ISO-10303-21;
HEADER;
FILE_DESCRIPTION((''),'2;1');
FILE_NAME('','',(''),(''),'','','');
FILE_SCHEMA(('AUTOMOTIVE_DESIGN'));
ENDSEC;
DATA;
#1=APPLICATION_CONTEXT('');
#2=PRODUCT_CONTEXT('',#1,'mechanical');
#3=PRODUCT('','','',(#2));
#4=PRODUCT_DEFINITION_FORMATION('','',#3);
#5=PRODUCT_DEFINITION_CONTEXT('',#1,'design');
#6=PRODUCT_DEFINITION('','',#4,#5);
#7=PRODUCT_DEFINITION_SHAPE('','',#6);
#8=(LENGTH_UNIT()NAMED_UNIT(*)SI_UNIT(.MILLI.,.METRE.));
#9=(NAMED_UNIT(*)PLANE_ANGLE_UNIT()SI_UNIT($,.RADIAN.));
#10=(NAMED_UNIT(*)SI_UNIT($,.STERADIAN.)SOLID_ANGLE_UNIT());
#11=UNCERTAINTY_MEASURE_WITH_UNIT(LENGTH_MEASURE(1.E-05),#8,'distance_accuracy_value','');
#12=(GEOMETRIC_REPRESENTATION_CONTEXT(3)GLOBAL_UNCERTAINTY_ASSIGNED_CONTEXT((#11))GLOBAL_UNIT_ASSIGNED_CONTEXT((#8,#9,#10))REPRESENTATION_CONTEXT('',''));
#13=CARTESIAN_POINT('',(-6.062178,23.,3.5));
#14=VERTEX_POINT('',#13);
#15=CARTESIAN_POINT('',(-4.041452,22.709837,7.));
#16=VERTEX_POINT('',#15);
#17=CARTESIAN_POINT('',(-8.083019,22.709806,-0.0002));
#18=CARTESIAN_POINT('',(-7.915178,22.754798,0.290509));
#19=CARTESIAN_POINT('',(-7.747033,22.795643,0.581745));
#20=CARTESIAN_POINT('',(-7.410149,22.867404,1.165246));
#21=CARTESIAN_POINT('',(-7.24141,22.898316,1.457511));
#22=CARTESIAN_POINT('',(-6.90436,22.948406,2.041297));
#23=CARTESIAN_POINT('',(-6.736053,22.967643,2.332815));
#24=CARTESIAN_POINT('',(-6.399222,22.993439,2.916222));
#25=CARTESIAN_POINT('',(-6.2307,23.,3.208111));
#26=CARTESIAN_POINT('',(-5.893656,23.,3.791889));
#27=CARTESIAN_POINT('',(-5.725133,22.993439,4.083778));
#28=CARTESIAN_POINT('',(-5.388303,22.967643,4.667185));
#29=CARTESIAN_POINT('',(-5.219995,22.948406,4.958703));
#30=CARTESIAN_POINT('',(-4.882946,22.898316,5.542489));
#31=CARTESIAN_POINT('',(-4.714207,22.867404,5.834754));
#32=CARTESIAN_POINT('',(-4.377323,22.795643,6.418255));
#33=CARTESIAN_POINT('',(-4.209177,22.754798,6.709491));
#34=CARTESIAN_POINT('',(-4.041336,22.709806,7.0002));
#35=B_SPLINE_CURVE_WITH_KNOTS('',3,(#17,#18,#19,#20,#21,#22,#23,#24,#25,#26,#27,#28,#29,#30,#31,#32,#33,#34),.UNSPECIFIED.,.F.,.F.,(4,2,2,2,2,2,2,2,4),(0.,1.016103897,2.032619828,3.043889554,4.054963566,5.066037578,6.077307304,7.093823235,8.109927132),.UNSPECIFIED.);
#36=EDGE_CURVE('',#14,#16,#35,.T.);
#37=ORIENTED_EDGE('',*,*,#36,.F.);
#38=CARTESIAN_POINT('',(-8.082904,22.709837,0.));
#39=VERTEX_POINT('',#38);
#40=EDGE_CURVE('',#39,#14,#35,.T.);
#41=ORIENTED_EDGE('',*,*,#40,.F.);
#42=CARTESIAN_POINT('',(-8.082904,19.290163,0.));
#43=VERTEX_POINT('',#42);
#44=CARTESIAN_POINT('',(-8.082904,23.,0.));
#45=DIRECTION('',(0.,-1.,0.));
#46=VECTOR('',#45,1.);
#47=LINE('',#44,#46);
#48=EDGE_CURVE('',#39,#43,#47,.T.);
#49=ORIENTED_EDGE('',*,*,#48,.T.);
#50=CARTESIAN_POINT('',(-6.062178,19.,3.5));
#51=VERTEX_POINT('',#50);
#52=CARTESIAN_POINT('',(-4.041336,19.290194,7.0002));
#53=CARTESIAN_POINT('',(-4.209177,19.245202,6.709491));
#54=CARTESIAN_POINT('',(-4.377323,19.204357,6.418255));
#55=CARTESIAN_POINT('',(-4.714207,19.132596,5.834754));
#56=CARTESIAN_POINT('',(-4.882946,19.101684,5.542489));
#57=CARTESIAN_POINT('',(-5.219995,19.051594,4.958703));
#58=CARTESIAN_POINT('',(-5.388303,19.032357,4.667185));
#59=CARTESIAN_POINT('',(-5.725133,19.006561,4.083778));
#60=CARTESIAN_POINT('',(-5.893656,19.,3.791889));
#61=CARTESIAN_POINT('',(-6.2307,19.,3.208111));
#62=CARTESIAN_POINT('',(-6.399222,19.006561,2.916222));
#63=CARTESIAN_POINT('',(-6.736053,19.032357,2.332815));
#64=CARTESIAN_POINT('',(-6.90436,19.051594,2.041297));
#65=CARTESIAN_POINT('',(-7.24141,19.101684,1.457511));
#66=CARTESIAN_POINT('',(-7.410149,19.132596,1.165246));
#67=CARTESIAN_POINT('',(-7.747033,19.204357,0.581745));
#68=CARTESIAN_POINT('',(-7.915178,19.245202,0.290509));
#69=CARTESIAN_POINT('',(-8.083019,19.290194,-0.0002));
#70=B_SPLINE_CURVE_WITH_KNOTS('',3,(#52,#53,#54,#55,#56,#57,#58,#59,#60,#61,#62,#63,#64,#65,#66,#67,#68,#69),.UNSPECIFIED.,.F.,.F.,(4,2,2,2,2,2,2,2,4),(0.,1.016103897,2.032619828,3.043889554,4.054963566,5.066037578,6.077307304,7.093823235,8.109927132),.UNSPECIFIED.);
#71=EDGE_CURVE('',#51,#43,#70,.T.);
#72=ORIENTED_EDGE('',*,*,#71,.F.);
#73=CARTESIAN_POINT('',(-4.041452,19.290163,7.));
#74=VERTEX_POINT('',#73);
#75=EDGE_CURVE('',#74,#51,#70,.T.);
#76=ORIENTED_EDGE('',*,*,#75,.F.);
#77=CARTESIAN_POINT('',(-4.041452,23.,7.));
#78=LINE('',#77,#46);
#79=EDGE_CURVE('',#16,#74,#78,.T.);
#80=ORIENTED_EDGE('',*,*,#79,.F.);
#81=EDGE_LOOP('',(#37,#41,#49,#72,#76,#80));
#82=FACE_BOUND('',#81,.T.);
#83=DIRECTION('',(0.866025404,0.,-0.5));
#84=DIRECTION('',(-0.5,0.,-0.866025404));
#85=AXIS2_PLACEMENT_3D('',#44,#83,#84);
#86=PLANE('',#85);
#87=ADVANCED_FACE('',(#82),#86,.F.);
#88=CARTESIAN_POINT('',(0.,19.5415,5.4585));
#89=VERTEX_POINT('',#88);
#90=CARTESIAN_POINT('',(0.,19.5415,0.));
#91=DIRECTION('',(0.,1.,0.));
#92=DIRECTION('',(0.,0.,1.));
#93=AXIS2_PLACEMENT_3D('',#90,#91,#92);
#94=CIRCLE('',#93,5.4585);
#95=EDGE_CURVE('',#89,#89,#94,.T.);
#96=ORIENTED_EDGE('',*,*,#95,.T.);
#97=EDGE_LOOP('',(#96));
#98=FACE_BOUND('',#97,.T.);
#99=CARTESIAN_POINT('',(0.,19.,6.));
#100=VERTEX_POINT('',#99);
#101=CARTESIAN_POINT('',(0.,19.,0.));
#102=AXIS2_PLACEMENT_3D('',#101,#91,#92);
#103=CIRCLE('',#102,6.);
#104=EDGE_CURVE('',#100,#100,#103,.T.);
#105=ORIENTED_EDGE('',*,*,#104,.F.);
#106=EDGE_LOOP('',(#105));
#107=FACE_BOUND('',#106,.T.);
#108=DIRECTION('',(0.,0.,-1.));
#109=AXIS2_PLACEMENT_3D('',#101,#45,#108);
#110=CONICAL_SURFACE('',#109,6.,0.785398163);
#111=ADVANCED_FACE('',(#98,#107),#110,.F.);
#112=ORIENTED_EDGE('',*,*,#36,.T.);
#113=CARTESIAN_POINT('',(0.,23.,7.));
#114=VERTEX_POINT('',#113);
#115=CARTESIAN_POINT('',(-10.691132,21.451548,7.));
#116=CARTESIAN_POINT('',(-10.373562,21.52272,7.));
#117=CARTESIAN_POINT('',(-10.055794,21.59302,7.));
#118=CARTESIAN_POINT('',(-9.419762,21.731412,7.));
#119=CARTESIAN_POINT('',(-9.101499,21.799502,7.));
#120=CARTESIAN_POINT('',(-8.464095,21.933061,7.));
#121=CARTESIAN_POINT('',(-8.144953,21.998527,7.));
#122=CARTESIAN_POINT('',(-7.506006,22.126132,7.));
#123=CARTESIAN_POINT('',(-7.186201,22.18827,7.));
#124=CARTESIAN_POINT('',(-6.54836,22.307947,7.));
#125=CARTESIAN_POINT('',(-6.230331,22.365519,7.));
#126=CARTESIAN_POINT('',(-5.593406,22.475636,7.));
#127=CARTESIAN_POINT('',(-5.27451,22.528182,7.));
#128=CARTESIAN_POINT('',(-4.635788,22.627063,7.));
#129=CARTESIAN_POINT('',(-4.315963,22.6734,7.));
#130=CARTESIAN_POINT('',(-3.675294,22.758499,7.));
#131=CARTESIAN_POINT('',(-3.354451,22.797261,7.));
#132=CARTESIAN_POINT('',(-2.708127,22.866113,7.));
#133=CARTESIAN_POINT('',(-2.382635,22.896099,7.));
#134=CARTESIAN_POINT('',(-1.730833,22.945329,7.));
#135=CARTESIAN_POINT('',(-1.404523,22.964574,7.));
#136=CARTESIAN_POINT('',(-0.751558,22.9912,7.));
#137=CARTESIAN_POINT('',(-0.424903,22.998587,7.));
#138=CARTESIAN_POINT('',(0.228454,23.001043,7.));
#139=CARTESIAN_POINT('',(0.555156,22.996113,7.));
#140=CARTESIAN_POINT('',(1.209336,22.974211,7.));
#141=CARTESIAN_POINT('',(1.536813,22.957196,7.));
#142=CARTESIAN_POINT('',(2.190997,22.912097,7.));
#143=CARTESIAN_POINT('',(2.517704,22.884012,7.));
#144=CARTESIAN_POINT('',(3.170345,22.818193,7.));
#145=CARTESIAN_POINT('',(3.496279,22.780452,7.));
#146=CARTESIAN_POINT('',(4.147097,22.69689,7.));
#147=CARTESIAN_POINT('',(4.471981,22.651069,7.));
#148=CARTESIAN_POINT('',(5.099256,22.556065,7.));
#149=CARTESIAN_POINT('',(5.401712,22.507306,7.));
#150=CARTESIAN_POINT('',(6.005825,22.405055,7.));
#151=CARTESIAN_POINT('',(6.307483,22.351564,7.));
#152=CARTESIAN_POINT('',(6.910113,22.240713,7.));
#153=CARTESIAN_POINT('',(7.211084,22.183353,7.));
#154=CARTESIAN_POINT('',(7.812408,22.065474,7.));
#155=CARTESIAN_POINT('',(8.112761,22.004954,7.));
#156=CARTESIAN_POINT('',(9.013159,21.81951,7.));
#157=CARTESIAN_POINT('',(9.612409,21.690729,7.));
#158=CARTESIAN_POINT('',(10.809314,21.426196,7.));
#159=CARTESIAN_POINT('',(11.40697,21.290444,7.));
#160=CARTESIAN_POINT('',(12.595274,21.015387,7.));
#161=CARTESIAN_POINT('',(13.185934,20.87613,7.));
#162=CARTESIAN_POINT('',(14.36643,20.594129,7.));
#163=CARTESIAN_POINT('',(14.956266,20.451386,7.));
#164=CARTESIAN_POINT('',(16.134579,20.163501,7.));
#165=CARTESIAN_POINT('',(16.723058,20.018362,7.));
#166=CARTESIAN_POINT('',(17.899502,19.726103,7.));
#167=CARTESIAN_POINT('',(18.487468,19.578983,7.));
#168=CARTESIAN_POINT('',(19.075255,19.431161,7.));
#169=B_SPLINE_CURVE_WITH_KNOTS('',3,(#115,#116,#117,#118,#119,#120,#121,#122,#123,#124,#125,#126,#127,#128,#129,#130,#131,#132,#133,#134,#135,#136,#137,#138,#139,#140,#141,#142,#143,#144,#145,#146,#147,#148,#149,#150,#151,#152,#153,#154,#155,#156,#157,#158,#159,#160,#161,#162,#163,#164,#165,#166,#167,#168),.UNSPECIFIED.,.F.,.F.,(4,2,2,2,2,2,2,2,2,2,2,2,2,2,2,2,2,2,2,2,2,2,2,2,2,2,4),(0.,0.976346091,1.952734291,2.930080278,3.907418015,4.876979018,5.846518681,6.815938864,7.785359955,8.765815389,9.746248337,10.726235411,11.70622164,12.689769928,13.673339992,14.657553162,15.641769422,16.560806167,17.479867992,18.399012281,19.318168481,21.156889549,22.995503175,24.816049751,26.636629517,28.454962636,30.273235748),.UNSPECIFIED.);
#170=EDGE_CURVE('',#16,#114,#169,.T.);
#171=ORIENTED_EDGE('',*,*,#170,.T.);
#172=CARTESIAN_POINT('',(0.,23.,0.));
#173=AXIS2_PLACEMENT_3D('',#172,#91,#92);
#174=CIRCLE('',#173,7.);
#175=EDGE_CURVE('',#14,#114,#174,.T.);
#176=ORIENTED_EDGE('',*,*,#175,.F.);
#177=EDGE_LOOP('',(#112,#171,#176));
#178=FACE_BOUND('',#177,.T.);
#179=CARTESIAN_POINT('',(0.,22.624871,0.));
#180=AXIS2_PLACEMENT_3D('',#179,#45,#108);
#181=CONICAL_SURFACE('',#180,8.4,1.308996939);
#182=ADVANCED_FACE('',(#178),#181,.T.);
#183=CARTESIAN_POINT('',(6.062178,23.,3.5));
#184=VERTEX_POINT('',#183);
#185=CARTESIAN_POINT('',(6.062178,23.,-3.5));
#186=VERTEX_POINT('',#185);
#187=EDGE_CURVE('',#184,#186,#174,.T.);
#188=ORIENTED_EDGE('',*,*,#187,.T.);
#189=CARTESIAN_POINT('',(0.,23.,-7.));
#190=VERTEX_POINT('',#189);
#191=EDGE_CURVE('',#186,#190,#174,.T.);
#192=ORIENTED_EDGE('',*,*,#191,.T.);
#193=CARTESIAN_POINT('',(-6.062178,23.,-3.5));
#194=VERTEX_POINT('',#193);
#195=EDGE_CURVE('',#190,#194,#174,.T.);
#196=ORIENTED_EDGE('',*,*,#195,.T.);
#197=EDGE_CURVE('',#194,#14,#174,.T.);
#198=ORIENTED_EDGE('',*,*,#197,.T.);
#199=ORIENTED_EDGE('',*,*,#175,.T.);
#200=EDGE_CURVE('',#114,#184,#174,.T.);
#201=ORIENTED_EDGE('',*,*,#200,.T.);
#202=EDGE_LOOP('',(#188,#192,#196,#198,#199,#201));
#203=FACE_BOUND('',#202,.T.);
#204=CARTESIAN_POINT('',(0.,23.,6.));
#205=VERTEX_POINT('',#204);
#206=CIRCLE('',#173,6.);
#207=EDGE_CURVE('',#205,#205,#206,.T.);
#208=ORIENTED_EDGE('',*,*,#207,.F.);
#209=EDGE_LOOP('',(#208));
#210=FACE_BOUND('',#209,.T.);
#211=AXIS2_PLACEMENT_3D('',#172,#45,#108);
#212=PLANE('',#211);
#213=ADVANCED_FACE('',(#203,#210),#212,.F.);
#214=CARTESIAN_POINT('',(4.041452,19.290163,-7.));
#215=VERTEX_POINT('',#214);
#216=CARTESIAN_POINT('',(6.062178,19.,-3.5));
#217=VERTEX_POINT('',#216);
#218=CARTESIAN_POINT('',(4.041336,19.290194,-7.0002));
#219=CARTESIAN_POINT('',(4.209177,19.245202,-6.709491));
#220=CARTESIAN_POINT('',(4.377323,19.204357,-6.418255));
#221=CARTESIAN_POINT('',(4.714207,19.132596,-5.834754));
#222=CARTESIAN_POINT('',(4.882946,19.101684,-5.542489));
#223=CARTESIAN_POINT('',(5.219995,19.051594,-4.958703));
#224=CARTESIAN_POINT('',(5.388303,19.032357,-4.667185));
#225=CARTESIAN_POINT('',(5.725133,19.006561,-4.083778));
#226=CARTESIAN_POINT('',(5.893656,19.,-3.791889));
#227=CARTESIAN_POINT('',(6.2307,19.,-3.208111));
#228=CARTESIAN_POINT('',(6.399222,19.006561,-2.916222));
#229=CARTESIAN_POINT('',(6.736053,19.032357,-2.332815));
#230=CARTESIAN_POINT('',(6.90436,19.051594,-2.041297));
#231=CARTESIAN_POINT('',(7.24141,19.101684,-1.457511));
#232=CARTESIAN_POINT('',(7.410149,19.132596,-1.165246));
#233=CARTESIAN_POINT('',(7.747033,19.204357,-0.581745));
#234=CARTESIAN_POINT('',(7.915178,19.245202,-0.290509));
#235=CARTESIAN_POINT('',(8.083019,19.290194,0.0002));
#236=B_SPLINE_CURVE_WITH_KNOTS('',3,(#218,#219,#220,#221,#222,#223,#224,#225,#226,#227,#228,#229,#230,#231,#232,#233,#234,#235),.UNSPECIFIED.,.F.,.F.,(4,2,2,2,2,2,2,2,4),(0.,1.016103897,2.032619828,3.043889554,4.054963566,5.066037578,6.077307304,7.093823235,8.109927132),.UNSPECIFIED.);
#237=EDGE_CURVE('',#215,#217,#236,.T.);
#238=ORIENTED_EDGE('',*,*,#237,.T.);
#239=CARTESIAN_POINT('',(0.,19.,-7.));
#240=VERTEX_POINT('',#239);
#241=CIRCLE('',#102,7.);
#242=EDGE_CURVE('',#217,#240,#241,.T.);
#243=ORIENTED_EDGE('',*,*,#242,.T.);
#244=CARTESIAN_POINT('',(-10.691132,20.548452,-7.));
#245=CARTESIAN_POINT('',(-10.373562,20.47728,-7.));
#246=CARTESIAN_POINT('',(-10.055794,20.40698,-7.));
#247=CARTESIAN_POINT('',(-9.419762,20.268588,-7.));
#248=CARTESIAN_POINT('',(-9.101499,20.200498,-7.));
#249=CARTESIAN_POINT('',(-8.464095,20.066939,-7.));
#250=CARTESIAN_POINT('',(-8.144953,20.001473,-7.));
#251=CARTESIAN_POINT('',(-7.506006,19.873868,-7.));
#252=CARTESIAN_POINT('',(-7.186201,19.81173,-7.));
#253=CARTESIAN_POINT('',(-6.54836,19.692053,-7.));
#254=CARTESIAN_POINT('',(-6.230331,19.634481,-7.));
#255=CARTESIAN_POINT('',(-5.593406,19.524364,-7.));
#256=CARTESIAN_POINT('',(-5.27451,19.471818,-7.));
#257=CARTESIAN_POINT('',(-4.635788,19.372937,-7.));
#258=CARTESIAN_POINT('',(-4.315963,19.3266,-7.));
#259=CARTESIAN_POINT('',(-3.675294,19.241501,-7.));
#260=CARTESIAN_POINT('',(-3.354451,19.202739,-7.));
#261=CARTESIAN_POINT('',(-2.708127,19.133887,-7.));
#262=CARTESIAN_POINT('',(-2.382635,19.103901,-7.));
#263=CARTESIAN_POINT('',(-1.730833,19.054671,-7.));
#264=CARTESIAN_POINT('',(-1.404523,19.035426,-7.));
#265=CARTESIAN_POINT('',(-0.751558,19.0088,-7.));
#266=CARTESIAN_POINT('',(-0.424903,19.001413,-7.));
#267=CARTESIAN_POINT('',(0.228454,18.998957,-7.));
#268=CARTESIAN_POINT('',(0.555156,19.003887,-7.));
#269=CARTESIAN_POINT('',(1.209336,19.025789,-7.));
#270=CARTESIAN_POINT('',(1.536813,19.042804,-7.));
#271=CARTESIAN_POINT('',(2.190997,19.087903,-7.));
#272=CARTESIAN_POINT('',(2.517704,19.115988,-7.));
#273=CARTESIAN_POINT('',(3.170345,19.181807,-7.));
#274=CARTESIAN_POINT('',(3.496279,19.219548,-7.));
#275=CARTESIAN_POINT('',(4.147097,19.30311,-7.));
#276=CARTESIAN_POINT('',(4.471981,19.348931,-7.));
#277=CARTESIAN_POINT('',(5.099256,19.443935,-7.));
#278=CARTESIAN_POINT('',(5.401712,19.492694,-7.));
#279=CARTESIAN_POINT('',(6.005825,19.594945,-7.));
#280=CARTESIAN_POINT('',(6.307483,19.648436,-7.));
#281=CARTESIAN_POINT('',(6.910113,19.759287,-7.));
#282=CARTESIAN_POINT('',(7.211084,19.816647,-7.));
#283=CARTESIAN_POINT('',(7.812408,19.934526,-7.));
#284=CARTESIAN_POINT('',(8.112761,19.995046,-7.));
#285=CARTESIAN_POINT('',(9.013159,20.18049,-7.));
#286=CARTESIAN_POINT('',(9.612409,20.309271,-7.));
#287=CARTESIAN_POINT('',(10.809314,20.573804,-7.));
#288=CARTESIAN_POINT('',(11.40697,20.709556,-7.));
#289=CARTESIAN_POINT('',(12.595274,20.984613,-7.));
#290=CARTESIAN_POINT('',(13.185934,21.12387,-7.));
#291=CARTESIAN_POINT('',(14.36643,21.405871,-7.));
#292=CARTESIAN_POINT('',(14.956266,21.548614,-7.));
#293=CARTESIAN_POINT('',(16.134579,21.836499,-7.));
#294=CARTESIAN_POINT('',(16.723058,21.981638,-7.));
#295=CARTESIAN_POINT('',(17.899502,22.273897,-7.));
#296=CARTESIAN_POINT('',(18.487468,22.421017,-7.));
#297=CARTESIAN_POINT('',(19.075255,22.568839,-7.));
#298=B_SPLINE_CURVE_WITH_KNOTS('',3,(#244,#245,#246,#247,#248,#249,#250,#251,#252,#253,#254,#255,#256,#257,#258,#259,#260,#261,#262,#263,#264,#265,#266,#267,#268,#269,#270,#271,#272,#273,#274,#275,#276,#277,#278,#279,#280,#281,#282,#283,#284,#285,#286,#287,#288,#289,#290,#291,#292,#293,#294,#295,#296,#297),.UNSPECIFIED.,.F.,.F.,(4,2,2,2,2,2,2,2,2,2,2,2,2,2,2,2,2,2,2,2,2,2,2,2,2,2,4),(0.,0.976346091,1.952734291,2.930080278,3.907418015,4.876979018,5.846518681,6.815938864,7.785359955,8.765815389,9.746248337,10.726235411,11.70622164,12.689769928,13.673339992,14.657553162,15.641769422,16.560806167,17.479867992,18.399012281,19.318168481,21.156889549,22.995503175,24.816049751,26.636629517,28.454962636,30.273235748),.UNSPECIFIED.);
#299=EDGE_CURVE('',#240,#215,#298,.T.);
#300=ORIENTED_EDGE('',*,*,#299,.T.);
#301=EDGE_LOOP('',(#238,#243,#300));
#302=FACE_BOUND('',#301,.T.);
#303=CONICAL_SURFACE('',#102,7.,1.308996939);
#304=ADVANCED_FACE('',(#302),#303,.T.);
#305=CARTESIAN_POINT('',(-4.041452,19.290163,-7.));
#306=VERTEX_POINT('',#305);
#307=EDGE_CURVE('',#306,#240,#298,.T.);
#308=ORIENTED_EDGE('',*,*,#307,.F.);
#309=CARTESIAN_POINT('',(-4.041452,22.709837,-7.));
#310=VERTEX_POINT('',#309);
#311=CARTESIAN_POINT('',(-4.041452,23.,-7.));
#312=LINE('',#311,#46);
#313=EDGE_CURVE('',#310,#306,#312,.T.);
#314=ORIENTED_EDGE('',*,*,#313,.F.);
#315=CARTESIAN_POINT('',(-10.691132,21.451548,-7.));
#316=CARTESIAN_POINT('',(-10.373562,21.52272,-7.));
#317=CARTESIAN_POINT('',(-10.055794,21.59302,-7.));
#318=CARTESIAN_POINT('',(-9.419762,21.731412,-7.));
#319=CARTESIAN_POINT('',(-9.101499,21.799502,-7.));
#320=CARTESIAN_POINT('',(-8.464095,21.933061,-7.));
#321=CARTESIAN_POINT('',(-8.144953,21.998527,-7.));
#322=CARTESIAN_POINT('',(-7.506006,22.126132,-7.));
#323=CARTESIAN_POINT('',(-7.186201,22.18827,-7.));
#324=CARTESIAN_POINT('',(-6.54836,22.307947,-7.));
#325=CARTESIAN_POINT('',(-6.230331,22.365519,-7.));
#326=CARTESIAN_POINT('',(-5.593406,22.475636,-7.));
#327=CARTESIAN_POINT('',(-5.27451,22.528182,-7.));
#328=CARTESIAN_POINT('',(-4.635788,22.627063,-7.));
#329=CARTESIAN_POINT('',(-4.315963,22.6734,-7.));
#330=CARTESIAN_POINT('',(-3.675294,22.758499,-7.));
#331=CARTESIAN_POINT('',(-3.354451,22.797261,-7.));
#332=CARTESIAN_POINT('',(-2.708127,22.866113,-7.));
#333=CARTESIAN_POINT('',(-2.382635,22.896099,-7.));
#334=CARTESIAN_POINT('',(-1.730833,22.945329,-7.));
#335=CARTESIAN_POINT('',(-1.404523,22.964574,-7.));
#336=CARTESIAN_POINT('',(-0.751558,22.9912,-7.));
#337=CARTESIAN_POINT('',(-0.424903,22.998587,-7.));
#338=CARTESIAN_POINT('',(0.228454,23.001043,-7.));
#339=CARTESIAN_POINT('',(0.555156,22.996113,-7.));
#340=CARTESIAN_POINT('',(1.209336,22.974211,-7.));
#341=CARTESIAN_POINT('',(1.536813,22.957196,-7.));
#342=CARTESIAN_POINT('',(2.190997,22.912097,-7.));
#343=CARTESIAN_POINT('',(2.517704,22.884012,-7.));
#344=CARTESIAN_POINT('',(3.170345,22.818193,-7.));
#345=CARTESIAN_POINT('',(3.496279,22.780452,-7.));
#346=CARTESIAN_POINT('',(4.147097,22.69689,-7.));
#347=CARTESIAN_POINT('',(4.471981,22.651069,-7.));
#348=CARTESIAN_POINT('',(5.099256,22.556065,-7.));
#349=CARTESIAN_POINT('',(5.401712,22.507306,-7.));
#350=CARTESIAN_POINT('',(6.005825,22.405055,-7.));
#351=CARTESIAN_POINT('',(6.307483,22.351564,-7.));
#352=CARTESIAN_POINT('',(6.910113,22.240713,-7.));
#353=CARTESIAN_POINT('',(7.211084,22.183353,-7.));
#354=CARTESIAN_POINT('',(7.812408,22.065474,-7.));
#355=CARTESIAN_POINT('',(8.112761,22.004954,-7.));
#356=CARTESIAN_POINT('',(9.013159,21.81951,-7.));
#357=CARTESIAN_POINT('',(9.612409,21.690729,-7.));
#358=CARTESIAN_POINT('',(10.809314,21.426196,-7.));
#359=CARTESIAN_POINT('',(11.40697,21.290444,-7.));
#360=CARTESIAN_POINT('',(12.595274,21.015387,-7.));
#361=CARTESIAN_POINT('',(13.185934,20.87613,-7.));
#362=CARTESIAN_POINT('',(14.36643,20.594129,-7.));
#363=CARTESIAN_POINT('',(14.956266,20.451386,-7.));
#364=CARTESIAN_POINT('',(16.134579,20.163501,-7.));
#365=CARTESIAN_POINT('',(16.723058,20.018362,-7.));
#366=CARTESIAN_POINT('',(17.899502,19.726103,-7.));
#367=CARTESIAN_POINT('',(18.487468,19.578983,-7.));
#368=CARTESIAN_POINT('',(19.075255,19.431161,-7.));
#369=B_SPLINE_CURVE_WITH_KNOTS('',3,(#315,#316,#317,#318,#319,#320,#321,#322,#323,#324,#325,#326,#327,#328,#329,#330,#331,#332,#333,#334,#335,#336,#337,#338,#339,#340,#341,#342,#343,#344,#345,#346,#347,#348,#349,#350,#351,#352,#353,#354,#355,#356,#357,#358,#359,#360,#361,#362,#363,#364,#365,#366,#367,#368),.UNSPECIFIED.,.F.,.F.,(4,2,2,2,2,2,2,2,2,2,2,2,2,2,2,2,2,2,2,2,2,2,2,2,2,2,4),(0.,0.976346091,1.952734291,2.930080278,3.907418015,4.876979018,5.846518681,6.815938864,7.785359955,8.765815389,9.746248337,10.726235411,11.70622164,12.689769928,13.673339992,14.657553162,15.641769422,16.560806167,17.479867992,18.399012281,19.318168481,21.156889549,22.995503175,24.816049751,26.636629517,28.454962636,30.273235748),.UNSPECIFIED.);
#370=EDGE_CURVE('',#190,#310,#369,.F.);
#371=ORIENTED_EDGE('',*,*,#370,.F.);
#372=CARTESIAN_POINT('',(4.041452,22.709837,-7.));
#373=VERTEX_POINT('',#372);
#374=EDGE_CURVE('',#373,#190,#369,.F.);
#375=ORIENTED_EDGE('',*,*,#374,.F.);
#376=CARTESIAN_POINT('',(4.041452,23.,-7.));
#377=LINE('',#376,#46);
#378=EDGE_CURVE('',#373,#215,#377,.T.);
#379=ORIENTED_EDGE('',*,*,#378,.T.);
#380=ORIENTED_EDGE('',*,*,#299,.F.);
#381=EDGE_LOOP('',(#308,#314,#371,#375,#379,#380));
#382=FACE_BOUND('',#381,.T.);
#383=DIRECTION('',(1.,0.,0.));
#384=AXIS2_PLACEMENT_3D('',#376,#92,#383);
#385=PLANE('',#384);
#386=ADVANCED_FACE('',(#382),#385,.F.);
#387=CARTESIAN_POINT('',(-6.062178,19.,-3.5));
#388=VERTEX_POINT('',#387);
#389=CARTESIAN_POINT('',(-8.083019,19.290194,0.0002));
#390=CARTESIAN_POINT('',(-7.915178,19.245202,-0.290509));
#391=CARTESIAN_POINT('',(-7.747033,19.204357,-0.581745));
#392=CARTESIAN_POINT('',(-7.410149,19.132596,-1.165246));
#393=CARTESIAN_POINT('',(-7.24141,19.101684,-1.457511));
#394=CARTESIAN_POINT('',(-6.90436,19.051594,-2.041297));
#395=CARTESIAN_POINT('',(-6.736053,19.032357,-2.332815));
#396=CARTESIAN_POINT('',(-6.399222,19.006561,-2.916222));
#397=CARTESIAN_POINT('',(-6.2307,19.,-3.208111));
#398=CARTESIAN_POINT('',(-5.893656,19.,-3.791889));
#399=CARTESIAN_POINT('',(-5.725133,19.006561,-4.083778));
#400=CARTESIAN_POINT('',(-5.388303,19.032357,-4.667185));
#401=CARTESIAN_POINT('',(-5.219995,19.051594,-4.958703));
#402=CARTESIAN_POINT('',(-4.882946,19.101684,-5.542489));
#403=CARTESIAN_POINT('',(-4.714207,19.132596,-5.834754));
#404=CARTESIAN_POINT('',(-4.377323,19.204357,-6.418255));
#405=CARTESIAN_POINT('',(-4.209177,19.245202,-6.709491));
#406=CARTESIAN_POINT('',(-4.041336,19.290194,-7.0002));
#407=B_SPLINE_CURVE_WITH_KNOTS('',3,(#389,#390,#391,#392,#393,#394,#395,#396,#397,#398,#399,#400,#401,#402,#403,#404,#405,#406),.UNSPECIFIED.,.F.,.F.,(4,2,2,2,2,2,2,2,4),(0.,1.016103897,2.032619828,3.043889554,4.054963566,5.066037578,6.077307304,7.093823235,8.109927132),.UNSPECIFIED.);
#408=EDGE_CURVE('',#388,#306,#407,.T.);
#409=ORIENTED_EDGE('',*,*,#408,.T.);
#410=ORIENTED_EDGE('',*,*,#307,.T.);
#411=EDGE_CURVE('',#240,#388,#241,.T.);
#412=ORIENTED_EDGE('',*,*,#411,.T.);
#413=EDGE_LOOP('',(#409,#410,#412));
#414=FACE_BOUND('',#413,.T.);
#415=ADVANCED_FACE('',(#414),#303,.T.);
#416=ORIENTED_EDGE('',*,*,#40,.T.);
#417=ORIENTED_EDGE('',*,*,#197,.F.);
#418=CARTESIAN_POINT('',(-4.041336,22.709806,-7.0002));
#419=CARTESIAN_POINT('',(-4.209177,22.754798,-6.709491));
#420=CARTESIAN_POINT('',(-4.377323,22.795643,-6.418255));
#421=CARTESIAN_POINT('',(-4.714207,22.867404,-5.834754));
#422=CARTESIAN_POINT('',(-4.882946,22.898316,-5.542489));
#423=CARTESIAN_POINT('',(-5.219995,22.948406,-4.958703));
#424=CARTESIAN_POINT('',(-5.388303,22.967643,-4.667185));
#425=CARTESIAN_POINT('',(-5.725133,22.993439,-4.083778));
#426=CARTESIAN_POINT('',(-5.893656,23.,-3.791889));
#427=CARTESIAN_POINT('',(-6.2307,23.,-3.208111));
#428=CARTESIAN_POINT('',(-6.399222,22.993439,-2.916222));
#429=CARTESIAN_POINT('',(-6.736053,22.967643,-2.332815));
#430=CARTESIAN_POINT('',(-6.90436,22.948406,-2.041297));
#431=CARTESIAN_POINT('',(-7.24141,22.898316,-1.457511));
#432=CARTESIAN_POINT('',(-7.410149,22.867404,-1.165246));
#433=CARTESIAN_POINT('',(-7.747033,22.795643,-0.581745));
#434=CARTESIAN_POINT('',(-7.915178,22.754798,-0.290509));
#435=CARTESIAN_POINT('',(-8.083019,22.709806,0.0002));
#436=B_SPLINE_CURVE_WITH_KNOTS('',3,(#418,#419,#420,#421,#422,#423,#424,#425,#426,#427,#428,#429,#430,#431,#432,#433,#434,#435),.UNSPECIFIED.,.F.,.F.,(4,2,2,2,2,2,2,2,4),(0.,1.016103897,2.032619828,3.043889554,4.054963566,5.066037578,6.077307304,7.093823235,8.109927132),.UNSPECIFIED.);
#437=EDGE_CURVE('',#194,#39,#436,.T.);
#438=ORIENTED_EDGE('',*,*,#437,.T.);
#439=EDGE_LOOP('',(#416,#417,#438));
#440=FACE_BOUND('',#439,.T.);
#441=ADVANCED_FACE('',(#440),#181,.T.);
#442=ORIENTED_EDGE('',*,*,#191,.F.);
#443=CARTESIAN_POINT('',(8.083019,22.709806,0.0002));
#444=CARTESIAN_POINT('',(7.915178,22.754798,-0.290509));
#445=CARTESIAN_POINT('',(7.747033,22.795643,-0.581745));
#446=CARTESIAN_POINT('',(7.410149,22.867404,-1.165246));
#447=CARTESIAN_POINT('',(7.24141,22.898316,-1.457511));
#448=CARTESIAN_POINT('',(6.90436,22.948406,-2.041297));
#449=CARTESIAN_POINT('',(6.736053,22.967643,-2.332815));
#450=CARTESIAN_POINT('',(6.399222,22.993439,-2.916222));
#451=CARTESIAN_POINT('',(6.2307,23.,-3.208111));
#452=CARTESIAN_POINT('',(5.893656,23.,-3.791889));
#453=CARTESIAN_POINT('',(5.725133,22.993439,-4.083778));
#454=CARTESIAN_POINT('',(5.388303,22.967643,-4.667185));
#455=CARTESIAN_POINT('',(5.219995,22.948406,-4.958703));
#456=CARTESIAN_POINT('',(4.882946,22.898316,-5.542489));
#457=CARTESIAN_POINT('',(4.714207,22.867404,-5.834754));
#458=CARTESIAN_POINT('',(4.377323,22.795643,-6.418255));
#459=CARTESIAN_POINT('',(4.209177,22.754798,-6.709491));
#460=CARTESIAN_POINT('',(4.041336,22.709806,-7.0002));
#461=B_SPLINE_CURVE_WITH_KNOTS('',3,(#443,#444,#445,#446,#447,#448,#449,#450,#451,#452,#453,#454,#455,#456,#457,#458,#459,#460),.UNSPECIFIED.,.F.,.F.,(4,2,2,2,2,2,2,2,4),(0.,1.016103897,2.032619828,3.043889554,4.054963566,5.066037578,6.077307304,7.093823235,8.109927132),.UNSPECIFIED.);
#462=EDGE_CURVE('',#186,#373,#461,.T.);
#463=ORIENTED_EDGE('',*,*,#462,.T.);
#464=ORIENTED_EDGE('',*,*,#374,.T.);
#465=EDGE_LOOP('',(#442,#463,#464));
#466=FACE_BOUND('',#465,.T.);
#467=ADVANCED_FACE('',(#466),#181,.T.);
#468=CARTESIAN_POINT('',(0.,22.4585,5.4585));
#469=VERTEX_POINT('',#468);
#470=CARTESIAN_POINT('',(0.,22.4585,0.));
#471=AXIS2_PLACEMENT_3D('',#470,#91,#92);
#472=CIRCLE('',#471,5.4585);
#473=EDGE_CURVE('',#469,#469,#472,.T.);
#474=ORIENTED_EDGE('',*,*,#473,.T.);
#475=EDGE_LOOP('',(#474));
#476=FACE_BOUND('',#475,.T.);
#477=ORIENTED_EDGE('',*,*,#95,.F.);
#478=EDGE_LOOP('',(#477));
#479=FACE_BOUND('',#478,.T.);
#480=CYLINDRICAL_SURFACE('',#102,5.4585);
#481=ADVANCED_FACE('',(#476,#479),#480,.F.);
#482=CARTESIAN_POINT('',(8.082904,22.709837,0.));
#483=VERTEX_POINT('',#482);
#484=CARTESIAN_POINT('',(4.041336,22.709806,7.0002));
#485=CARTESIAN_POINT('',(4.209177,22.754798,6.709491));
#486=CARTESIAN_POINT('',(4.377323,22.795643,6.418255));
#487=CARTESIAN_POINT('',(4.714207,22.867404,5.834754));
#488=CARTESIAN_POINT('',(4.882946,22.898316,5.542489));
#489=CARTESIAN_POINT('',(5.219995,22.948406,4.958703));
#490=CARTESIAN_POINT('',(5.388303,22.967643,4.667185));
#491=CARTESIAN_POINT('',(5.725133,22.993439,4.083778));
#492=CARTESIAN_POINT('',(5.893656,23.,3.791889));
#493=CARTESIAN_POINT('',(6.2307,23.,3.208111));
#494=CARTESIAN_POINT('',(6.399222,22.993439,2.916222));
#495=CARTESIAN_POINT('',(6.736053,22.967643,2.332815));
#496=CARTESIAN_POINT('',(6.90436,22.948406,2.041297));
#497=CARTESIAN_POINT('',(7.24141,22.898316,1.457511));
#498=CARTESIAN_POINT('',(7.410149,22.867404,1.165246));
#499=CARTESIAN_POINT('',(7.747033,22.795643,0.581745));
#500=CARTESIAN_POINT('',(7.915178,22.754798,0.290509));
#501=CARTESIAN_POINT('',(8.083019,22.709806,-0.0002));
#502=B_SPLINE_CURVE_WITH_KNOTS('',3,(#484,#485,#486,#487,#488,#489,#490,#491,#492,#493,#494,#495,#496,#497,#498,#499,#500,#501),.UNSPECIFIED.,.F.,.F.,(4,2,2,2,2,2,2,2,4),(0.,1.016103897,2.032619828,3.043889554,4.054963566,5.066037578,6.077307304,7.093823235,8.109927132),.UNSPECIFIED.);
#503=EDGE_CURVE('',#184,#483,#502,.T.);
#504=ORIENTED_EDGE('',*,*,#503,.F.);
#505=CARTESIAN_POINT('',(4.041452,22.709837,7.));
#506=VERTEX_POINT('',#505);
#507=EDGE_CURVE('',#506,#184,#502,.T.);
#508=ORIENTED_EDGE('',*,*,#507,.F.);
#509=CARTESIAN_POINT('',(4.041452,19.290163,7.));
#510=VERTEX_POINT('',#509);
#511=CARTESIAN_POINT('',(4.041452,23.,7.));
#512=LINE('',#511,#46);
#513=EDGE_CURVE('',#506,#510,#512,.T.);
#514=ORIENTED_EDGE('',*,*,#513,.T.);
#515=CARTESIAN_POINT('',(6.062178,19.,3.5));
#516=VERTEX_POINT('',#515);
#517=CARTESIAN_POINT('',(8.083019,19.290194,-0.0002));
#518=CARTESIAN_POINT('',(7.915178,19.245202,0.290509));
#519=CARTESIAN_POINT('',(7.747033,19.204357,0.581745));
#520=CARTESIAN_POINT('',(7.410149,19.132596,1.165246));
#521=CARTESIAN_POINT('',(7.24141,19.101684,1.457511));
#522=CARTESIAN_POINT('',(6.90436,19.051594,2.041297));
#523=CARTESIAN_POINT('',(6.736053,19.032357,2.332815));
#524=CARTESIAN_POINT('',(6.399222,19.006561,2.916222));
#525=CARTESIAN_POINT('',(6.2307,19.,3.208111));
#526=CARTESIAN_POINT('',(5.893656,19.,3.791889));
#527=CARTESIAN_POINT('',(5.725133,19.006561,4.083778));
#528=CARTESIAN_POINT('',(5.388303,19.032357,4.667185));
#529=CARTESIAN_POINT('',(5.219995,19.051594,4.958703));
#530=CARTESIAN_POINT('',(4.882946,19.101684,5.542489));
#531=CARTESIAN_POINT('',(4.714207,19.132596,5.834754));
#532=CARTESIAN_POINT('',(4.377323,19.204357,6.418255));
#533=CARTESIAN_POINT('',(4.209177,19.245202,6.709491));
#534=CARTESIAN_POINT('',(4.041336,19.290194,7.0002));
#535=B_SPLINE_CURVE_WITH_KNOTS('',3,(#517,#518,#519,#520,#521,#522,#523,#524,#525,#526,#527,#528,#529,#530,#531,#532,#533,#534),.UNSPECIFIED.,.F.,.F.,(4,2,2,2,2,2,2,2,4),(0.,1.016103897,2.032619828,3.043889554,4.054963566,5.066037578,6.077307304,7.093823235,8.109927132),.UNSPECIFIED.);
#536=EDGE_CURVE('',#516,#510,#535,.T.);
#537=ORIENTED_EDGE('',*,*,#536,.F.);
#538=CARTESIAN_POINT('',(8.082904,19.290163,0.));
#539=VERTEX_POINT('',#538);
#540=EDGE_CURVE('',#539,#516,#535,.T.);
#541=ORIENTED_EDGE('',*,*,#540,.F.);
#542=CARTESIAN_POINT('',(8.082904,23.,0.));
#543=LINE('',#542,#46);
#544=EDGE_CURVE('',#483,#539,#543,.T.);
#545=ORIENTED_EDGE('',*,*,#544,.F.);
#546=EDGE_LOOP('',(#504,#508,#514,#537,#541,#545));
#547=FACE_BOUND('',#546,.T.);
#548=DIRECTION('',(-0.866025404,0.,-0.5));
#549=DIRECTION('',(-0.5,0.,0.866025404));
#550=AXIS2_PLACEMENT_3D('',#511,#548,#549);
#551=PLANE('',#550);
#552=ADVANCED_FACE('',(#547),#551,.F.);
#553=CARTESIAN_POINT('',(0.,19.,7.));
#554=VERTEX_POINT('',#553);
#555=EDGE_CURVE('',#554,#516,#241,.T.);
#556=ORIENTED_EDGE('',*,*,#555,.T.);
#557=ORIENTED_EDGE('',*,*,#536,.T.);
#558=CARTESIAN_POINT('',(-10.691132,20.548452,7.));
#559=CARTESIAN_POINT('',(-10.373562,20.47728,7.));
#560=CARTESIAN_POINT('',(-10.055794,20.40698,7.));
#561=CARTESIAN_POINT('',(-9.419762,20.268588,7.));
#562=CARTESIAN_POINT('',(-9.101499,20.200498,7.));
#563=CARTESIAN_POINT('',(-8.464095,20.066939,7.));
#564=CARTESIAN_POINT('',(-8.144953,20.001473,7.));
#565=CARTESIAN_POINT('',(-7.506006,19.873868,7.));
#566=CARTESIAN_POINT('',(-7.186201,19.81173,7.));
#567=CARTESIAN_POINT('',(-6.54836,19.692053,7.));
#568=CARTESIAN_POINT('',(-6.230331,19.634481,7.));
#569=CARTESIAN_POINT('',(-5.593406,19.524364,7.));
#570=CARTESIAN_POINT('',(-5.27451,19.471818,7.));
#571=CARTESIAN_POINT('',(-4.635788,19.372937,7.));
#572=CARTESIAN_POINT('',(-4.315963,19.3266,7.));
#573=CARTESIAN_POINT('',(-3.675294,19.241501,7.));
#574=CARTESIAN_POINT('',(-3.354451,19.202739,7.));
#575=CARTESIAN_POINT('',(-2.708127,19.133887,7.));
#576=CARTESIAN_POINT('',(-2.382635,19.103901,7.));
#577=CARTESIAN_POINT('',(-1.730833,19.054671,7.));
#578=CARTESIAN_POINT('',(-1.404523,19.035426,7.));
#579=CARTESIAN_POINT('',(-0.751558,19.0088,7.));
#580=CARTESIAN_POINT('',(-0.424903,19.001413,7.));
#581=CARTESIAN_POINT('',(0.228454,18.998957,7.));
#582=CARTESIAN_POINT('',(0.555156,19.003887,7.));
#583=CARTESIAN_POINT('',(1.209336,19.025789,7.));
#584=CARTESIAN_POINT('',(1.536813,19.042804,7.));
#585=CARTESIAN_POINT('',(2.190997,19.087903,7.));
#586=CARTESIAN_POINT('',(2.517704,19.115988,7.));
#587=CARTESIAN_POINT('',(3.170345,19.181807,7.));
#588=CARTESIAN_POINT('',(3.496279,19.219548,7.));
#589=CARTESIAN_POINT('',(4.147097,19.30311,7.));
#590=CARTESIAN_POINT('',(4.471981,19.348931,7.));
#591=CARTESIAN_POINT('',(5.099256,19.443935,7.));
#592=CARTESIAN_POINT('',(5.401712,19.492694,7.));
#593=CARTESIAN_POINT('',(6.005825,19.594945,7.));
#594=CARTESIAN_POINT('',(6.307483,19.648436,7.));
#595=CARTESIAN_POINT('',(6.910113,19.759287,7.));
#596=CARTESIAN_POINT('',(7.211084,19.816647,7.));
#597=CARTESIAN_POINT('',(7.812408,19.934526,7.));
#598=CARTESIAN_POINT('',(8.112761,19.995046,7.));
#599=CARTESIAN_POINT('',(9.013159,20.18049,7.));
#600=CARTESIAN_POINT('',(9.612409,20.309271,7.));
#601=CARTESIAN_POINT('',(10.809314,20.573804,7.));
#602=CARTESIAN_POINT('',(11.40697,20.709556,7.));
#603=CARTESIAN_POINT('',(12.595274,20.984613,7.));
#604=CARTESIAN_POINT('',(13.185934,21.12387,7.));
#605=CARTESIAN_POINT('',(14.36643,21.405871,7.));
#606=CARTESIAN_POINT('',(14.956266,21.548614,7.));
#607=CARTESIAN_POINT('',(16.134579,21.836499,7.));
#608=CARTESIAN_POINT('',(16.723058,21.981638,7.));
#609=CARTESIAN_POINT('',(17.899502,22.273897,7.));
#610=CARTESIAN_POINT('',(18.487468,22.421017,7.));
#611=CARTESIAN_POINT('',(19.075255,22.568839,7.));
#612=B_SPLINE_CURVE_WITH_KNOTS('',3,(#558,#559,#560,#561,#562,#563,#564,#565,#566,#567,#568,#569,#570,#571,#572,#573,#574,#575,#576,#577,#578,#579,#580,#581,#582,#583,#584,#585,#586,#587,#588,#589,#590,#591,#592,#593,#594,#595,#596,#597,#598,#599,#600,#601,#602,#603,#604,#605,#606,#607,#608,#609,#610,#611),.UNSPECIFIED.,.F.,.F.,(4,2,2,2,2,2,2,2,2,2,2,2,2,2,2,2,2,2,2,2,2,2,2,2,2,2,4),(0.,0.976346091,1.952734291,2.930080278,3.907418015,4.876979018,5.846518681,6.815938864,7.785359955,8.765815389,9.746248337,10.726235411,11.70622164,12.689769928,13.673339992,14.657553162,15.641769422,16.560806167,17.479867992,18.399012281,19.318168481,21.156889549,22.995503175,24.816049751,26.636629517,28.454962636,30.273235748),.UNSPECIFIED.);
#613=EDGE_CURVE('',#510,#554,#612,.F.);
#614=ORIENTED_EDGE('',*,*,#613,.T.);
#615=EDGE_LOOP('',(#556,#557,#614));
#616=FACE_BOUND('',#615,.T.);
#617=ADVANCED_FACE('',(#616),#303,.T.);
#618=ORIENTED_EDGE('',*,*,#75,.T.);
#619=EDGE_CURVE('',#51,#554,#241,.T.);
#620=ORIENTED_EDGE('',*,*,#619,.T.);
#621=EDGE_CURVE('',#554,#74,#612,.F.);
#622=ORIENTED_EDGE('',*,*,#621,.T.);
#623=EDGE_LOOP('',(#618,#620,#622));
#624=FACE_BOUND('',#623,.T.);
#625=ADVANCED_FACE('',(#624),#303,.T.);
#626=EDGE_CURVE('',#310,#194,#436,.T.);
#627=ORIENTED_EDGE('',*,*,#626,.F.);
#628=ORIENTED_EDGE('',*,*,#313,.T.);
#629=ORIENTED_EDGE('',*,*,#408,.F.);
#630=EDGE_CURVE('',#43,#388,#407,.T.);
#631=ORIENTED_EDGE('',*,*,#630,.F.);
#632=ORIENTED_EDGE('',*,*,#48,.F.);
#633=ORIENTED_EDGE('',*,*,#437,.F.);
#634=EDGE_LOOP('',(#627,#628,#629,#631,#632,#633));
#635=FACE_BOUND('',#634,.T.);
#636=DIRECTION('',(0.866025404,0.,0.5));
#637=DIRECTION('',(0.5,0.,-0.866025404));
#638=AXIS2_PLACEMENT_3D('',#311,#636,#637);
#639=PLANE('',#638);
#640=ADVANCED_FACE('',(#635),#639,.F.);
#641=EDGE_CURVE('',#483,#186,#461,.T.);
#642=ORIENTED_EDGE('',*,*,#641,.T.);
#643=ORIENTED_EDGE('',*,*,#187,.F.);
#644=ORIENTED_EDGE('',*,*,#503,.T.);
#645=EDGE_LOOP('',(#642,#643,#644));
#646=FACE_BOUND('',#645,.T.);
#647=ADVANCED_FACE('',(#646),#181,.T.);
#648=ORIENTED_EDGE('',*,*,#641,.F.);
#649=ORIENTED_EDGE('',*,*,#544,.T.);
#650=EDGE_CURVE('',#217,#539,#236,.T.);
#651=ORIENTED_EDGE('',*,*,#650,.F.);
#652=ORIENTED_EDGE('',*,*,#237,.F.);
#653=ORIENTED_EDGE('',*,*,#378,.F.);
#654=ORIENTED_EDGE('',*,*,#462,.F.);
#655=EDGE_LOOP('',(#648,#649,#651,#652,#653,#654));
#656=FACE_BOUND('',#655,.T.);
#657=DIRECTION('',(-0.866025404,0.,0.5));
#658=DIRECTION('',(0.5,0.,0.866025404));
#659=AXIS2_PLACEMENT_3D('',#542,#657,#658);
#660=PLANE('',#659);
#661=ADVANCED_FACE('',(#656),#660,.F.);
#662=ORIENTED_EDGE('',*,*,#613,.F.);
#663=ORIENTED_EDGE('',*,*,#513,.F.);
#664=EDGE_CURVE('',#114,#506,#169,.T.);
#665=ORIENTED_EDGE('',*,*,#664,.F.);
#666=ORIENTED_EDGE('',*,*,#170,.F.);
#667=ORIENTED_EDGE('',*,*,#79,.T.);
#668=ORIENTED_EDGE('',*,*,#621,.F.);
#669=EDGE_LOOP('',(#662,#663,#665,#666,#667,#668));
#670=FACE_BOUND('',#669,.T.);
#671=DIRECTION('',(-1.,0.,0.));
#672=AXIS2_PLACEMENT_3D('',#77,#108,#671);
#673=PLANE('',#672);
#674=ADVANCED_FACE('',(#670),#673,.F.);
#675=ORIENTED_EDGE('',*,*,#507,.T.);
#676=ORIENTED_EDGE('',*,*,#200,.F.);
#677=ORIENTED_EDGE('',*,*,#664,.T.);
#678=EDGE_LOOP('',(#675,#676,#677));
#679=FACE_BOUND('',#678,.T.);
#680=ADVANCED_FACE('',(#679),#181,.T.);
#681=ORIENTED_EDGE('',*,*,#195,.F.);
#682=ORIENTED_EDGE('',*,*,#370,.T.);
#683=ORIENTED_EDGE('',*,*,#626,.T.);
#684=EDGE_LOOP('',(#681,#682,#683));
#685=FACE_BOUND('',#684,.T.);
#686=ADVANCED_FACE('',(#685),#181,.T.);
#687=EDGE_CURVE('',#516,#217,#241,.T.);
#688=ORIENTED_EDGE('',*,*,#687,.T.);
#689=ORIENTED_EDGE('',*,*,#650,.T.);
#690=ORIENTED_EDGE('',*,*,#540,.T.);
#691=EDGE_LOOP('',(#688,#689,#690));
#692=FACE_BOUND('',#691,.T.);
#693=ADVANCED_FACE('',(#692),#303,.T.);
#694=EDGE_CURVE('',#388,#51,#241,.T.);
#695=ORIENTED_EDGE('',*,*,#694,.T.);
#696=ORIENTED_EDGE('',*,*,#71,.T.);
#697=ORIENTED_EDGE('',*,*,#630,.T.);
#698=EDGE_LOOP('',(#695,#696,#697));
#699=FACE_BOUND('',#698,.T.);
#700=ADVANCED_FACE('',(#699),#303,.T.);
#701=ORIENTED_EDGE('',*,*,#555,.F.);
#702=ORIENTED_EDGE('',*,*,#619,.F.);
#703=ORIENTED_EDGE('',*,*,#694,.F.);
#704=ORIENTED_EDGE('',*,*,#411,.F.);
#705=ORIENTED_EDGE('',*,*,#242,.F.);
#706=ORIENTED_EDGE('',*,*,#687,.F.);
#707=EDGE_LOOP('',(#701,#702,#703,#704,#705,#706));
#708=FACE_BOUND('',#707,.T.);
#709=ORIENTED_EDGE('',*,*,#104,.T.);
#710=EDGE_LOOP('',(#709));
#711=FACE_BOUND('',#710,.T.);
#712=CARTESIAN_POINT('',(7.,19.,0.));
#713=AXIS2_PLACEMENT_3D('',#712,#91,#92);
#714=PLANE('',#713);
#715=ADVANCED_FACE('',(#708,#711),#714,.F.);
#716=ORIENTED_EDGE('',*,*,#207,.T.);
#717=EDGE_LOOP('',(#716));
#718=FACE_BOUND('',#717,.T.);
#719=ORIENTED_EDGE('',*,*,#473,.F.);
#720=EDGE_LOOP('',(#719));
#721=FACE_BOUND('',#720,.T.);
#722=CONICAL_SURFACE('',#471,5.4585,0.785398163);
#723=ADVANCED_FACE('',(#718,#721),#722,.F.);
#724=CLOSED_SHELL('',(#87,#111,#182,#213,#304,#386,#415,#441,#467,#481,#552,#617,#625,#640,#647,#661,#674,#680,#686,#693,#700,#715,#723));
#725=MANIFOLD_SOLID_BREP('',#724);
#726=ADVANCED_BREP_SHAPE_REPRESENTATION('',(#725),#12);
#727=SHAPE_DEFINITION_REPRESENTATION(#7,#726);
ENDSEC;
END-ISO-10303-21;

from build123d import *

# Parameters (mm, degrees)
SKETCH3_W          = 68
SKETCH3_H          = 68
CUT_EXTRUDE1_DEPTH = 4


with BuildPart() as part:
    # Sketch1 → Revolve1 (revolve)
    with BuildSketch(Plane.XY):
        Polygon((0, 23), (7, 23), (8.4, 22.624871131), (8.4, 19.375128869), (7, 19), (0, 19), align=None)
    revolve(axis=Axis((0, 19, 0), (0, 1, 0)))

    # Sketch2 → Cut-Revolve1 (revolve, cut)
    with BuildSketch(Plane.XY):
        Polygon((0, 23), (6, 23), (5.4585, 22.4585), (5.4585, 19.5415), (6, 19), (0, 19), align=None)
    revolve(axis=Axis((0, 19, 0), (0, 1, 0)), mode=Mode.SUBTRACT)

    # Sketch3 → Cut-Extrude1 (cut)
    with BuildSketch(Plane(origin=(0, 19, 0), x_dir=(-1, 0, 0), z_dir=(0, 1, 0))):
        Rectangle(SKETCH3_W, SKETCH3_H)
        Polygon((8.082903769, 0), (4.041451884, 7), (-4.041451884, 7), (-8.082903769, 0), (-4.041451884, -7), (4.041451884, -7), align=None, mode=Mode.SUBTRACT)
    extrude(amount=CUT_EXTRUDE1_DEPTH, mode=Mode.SUBTRACT)


solid = part.part
